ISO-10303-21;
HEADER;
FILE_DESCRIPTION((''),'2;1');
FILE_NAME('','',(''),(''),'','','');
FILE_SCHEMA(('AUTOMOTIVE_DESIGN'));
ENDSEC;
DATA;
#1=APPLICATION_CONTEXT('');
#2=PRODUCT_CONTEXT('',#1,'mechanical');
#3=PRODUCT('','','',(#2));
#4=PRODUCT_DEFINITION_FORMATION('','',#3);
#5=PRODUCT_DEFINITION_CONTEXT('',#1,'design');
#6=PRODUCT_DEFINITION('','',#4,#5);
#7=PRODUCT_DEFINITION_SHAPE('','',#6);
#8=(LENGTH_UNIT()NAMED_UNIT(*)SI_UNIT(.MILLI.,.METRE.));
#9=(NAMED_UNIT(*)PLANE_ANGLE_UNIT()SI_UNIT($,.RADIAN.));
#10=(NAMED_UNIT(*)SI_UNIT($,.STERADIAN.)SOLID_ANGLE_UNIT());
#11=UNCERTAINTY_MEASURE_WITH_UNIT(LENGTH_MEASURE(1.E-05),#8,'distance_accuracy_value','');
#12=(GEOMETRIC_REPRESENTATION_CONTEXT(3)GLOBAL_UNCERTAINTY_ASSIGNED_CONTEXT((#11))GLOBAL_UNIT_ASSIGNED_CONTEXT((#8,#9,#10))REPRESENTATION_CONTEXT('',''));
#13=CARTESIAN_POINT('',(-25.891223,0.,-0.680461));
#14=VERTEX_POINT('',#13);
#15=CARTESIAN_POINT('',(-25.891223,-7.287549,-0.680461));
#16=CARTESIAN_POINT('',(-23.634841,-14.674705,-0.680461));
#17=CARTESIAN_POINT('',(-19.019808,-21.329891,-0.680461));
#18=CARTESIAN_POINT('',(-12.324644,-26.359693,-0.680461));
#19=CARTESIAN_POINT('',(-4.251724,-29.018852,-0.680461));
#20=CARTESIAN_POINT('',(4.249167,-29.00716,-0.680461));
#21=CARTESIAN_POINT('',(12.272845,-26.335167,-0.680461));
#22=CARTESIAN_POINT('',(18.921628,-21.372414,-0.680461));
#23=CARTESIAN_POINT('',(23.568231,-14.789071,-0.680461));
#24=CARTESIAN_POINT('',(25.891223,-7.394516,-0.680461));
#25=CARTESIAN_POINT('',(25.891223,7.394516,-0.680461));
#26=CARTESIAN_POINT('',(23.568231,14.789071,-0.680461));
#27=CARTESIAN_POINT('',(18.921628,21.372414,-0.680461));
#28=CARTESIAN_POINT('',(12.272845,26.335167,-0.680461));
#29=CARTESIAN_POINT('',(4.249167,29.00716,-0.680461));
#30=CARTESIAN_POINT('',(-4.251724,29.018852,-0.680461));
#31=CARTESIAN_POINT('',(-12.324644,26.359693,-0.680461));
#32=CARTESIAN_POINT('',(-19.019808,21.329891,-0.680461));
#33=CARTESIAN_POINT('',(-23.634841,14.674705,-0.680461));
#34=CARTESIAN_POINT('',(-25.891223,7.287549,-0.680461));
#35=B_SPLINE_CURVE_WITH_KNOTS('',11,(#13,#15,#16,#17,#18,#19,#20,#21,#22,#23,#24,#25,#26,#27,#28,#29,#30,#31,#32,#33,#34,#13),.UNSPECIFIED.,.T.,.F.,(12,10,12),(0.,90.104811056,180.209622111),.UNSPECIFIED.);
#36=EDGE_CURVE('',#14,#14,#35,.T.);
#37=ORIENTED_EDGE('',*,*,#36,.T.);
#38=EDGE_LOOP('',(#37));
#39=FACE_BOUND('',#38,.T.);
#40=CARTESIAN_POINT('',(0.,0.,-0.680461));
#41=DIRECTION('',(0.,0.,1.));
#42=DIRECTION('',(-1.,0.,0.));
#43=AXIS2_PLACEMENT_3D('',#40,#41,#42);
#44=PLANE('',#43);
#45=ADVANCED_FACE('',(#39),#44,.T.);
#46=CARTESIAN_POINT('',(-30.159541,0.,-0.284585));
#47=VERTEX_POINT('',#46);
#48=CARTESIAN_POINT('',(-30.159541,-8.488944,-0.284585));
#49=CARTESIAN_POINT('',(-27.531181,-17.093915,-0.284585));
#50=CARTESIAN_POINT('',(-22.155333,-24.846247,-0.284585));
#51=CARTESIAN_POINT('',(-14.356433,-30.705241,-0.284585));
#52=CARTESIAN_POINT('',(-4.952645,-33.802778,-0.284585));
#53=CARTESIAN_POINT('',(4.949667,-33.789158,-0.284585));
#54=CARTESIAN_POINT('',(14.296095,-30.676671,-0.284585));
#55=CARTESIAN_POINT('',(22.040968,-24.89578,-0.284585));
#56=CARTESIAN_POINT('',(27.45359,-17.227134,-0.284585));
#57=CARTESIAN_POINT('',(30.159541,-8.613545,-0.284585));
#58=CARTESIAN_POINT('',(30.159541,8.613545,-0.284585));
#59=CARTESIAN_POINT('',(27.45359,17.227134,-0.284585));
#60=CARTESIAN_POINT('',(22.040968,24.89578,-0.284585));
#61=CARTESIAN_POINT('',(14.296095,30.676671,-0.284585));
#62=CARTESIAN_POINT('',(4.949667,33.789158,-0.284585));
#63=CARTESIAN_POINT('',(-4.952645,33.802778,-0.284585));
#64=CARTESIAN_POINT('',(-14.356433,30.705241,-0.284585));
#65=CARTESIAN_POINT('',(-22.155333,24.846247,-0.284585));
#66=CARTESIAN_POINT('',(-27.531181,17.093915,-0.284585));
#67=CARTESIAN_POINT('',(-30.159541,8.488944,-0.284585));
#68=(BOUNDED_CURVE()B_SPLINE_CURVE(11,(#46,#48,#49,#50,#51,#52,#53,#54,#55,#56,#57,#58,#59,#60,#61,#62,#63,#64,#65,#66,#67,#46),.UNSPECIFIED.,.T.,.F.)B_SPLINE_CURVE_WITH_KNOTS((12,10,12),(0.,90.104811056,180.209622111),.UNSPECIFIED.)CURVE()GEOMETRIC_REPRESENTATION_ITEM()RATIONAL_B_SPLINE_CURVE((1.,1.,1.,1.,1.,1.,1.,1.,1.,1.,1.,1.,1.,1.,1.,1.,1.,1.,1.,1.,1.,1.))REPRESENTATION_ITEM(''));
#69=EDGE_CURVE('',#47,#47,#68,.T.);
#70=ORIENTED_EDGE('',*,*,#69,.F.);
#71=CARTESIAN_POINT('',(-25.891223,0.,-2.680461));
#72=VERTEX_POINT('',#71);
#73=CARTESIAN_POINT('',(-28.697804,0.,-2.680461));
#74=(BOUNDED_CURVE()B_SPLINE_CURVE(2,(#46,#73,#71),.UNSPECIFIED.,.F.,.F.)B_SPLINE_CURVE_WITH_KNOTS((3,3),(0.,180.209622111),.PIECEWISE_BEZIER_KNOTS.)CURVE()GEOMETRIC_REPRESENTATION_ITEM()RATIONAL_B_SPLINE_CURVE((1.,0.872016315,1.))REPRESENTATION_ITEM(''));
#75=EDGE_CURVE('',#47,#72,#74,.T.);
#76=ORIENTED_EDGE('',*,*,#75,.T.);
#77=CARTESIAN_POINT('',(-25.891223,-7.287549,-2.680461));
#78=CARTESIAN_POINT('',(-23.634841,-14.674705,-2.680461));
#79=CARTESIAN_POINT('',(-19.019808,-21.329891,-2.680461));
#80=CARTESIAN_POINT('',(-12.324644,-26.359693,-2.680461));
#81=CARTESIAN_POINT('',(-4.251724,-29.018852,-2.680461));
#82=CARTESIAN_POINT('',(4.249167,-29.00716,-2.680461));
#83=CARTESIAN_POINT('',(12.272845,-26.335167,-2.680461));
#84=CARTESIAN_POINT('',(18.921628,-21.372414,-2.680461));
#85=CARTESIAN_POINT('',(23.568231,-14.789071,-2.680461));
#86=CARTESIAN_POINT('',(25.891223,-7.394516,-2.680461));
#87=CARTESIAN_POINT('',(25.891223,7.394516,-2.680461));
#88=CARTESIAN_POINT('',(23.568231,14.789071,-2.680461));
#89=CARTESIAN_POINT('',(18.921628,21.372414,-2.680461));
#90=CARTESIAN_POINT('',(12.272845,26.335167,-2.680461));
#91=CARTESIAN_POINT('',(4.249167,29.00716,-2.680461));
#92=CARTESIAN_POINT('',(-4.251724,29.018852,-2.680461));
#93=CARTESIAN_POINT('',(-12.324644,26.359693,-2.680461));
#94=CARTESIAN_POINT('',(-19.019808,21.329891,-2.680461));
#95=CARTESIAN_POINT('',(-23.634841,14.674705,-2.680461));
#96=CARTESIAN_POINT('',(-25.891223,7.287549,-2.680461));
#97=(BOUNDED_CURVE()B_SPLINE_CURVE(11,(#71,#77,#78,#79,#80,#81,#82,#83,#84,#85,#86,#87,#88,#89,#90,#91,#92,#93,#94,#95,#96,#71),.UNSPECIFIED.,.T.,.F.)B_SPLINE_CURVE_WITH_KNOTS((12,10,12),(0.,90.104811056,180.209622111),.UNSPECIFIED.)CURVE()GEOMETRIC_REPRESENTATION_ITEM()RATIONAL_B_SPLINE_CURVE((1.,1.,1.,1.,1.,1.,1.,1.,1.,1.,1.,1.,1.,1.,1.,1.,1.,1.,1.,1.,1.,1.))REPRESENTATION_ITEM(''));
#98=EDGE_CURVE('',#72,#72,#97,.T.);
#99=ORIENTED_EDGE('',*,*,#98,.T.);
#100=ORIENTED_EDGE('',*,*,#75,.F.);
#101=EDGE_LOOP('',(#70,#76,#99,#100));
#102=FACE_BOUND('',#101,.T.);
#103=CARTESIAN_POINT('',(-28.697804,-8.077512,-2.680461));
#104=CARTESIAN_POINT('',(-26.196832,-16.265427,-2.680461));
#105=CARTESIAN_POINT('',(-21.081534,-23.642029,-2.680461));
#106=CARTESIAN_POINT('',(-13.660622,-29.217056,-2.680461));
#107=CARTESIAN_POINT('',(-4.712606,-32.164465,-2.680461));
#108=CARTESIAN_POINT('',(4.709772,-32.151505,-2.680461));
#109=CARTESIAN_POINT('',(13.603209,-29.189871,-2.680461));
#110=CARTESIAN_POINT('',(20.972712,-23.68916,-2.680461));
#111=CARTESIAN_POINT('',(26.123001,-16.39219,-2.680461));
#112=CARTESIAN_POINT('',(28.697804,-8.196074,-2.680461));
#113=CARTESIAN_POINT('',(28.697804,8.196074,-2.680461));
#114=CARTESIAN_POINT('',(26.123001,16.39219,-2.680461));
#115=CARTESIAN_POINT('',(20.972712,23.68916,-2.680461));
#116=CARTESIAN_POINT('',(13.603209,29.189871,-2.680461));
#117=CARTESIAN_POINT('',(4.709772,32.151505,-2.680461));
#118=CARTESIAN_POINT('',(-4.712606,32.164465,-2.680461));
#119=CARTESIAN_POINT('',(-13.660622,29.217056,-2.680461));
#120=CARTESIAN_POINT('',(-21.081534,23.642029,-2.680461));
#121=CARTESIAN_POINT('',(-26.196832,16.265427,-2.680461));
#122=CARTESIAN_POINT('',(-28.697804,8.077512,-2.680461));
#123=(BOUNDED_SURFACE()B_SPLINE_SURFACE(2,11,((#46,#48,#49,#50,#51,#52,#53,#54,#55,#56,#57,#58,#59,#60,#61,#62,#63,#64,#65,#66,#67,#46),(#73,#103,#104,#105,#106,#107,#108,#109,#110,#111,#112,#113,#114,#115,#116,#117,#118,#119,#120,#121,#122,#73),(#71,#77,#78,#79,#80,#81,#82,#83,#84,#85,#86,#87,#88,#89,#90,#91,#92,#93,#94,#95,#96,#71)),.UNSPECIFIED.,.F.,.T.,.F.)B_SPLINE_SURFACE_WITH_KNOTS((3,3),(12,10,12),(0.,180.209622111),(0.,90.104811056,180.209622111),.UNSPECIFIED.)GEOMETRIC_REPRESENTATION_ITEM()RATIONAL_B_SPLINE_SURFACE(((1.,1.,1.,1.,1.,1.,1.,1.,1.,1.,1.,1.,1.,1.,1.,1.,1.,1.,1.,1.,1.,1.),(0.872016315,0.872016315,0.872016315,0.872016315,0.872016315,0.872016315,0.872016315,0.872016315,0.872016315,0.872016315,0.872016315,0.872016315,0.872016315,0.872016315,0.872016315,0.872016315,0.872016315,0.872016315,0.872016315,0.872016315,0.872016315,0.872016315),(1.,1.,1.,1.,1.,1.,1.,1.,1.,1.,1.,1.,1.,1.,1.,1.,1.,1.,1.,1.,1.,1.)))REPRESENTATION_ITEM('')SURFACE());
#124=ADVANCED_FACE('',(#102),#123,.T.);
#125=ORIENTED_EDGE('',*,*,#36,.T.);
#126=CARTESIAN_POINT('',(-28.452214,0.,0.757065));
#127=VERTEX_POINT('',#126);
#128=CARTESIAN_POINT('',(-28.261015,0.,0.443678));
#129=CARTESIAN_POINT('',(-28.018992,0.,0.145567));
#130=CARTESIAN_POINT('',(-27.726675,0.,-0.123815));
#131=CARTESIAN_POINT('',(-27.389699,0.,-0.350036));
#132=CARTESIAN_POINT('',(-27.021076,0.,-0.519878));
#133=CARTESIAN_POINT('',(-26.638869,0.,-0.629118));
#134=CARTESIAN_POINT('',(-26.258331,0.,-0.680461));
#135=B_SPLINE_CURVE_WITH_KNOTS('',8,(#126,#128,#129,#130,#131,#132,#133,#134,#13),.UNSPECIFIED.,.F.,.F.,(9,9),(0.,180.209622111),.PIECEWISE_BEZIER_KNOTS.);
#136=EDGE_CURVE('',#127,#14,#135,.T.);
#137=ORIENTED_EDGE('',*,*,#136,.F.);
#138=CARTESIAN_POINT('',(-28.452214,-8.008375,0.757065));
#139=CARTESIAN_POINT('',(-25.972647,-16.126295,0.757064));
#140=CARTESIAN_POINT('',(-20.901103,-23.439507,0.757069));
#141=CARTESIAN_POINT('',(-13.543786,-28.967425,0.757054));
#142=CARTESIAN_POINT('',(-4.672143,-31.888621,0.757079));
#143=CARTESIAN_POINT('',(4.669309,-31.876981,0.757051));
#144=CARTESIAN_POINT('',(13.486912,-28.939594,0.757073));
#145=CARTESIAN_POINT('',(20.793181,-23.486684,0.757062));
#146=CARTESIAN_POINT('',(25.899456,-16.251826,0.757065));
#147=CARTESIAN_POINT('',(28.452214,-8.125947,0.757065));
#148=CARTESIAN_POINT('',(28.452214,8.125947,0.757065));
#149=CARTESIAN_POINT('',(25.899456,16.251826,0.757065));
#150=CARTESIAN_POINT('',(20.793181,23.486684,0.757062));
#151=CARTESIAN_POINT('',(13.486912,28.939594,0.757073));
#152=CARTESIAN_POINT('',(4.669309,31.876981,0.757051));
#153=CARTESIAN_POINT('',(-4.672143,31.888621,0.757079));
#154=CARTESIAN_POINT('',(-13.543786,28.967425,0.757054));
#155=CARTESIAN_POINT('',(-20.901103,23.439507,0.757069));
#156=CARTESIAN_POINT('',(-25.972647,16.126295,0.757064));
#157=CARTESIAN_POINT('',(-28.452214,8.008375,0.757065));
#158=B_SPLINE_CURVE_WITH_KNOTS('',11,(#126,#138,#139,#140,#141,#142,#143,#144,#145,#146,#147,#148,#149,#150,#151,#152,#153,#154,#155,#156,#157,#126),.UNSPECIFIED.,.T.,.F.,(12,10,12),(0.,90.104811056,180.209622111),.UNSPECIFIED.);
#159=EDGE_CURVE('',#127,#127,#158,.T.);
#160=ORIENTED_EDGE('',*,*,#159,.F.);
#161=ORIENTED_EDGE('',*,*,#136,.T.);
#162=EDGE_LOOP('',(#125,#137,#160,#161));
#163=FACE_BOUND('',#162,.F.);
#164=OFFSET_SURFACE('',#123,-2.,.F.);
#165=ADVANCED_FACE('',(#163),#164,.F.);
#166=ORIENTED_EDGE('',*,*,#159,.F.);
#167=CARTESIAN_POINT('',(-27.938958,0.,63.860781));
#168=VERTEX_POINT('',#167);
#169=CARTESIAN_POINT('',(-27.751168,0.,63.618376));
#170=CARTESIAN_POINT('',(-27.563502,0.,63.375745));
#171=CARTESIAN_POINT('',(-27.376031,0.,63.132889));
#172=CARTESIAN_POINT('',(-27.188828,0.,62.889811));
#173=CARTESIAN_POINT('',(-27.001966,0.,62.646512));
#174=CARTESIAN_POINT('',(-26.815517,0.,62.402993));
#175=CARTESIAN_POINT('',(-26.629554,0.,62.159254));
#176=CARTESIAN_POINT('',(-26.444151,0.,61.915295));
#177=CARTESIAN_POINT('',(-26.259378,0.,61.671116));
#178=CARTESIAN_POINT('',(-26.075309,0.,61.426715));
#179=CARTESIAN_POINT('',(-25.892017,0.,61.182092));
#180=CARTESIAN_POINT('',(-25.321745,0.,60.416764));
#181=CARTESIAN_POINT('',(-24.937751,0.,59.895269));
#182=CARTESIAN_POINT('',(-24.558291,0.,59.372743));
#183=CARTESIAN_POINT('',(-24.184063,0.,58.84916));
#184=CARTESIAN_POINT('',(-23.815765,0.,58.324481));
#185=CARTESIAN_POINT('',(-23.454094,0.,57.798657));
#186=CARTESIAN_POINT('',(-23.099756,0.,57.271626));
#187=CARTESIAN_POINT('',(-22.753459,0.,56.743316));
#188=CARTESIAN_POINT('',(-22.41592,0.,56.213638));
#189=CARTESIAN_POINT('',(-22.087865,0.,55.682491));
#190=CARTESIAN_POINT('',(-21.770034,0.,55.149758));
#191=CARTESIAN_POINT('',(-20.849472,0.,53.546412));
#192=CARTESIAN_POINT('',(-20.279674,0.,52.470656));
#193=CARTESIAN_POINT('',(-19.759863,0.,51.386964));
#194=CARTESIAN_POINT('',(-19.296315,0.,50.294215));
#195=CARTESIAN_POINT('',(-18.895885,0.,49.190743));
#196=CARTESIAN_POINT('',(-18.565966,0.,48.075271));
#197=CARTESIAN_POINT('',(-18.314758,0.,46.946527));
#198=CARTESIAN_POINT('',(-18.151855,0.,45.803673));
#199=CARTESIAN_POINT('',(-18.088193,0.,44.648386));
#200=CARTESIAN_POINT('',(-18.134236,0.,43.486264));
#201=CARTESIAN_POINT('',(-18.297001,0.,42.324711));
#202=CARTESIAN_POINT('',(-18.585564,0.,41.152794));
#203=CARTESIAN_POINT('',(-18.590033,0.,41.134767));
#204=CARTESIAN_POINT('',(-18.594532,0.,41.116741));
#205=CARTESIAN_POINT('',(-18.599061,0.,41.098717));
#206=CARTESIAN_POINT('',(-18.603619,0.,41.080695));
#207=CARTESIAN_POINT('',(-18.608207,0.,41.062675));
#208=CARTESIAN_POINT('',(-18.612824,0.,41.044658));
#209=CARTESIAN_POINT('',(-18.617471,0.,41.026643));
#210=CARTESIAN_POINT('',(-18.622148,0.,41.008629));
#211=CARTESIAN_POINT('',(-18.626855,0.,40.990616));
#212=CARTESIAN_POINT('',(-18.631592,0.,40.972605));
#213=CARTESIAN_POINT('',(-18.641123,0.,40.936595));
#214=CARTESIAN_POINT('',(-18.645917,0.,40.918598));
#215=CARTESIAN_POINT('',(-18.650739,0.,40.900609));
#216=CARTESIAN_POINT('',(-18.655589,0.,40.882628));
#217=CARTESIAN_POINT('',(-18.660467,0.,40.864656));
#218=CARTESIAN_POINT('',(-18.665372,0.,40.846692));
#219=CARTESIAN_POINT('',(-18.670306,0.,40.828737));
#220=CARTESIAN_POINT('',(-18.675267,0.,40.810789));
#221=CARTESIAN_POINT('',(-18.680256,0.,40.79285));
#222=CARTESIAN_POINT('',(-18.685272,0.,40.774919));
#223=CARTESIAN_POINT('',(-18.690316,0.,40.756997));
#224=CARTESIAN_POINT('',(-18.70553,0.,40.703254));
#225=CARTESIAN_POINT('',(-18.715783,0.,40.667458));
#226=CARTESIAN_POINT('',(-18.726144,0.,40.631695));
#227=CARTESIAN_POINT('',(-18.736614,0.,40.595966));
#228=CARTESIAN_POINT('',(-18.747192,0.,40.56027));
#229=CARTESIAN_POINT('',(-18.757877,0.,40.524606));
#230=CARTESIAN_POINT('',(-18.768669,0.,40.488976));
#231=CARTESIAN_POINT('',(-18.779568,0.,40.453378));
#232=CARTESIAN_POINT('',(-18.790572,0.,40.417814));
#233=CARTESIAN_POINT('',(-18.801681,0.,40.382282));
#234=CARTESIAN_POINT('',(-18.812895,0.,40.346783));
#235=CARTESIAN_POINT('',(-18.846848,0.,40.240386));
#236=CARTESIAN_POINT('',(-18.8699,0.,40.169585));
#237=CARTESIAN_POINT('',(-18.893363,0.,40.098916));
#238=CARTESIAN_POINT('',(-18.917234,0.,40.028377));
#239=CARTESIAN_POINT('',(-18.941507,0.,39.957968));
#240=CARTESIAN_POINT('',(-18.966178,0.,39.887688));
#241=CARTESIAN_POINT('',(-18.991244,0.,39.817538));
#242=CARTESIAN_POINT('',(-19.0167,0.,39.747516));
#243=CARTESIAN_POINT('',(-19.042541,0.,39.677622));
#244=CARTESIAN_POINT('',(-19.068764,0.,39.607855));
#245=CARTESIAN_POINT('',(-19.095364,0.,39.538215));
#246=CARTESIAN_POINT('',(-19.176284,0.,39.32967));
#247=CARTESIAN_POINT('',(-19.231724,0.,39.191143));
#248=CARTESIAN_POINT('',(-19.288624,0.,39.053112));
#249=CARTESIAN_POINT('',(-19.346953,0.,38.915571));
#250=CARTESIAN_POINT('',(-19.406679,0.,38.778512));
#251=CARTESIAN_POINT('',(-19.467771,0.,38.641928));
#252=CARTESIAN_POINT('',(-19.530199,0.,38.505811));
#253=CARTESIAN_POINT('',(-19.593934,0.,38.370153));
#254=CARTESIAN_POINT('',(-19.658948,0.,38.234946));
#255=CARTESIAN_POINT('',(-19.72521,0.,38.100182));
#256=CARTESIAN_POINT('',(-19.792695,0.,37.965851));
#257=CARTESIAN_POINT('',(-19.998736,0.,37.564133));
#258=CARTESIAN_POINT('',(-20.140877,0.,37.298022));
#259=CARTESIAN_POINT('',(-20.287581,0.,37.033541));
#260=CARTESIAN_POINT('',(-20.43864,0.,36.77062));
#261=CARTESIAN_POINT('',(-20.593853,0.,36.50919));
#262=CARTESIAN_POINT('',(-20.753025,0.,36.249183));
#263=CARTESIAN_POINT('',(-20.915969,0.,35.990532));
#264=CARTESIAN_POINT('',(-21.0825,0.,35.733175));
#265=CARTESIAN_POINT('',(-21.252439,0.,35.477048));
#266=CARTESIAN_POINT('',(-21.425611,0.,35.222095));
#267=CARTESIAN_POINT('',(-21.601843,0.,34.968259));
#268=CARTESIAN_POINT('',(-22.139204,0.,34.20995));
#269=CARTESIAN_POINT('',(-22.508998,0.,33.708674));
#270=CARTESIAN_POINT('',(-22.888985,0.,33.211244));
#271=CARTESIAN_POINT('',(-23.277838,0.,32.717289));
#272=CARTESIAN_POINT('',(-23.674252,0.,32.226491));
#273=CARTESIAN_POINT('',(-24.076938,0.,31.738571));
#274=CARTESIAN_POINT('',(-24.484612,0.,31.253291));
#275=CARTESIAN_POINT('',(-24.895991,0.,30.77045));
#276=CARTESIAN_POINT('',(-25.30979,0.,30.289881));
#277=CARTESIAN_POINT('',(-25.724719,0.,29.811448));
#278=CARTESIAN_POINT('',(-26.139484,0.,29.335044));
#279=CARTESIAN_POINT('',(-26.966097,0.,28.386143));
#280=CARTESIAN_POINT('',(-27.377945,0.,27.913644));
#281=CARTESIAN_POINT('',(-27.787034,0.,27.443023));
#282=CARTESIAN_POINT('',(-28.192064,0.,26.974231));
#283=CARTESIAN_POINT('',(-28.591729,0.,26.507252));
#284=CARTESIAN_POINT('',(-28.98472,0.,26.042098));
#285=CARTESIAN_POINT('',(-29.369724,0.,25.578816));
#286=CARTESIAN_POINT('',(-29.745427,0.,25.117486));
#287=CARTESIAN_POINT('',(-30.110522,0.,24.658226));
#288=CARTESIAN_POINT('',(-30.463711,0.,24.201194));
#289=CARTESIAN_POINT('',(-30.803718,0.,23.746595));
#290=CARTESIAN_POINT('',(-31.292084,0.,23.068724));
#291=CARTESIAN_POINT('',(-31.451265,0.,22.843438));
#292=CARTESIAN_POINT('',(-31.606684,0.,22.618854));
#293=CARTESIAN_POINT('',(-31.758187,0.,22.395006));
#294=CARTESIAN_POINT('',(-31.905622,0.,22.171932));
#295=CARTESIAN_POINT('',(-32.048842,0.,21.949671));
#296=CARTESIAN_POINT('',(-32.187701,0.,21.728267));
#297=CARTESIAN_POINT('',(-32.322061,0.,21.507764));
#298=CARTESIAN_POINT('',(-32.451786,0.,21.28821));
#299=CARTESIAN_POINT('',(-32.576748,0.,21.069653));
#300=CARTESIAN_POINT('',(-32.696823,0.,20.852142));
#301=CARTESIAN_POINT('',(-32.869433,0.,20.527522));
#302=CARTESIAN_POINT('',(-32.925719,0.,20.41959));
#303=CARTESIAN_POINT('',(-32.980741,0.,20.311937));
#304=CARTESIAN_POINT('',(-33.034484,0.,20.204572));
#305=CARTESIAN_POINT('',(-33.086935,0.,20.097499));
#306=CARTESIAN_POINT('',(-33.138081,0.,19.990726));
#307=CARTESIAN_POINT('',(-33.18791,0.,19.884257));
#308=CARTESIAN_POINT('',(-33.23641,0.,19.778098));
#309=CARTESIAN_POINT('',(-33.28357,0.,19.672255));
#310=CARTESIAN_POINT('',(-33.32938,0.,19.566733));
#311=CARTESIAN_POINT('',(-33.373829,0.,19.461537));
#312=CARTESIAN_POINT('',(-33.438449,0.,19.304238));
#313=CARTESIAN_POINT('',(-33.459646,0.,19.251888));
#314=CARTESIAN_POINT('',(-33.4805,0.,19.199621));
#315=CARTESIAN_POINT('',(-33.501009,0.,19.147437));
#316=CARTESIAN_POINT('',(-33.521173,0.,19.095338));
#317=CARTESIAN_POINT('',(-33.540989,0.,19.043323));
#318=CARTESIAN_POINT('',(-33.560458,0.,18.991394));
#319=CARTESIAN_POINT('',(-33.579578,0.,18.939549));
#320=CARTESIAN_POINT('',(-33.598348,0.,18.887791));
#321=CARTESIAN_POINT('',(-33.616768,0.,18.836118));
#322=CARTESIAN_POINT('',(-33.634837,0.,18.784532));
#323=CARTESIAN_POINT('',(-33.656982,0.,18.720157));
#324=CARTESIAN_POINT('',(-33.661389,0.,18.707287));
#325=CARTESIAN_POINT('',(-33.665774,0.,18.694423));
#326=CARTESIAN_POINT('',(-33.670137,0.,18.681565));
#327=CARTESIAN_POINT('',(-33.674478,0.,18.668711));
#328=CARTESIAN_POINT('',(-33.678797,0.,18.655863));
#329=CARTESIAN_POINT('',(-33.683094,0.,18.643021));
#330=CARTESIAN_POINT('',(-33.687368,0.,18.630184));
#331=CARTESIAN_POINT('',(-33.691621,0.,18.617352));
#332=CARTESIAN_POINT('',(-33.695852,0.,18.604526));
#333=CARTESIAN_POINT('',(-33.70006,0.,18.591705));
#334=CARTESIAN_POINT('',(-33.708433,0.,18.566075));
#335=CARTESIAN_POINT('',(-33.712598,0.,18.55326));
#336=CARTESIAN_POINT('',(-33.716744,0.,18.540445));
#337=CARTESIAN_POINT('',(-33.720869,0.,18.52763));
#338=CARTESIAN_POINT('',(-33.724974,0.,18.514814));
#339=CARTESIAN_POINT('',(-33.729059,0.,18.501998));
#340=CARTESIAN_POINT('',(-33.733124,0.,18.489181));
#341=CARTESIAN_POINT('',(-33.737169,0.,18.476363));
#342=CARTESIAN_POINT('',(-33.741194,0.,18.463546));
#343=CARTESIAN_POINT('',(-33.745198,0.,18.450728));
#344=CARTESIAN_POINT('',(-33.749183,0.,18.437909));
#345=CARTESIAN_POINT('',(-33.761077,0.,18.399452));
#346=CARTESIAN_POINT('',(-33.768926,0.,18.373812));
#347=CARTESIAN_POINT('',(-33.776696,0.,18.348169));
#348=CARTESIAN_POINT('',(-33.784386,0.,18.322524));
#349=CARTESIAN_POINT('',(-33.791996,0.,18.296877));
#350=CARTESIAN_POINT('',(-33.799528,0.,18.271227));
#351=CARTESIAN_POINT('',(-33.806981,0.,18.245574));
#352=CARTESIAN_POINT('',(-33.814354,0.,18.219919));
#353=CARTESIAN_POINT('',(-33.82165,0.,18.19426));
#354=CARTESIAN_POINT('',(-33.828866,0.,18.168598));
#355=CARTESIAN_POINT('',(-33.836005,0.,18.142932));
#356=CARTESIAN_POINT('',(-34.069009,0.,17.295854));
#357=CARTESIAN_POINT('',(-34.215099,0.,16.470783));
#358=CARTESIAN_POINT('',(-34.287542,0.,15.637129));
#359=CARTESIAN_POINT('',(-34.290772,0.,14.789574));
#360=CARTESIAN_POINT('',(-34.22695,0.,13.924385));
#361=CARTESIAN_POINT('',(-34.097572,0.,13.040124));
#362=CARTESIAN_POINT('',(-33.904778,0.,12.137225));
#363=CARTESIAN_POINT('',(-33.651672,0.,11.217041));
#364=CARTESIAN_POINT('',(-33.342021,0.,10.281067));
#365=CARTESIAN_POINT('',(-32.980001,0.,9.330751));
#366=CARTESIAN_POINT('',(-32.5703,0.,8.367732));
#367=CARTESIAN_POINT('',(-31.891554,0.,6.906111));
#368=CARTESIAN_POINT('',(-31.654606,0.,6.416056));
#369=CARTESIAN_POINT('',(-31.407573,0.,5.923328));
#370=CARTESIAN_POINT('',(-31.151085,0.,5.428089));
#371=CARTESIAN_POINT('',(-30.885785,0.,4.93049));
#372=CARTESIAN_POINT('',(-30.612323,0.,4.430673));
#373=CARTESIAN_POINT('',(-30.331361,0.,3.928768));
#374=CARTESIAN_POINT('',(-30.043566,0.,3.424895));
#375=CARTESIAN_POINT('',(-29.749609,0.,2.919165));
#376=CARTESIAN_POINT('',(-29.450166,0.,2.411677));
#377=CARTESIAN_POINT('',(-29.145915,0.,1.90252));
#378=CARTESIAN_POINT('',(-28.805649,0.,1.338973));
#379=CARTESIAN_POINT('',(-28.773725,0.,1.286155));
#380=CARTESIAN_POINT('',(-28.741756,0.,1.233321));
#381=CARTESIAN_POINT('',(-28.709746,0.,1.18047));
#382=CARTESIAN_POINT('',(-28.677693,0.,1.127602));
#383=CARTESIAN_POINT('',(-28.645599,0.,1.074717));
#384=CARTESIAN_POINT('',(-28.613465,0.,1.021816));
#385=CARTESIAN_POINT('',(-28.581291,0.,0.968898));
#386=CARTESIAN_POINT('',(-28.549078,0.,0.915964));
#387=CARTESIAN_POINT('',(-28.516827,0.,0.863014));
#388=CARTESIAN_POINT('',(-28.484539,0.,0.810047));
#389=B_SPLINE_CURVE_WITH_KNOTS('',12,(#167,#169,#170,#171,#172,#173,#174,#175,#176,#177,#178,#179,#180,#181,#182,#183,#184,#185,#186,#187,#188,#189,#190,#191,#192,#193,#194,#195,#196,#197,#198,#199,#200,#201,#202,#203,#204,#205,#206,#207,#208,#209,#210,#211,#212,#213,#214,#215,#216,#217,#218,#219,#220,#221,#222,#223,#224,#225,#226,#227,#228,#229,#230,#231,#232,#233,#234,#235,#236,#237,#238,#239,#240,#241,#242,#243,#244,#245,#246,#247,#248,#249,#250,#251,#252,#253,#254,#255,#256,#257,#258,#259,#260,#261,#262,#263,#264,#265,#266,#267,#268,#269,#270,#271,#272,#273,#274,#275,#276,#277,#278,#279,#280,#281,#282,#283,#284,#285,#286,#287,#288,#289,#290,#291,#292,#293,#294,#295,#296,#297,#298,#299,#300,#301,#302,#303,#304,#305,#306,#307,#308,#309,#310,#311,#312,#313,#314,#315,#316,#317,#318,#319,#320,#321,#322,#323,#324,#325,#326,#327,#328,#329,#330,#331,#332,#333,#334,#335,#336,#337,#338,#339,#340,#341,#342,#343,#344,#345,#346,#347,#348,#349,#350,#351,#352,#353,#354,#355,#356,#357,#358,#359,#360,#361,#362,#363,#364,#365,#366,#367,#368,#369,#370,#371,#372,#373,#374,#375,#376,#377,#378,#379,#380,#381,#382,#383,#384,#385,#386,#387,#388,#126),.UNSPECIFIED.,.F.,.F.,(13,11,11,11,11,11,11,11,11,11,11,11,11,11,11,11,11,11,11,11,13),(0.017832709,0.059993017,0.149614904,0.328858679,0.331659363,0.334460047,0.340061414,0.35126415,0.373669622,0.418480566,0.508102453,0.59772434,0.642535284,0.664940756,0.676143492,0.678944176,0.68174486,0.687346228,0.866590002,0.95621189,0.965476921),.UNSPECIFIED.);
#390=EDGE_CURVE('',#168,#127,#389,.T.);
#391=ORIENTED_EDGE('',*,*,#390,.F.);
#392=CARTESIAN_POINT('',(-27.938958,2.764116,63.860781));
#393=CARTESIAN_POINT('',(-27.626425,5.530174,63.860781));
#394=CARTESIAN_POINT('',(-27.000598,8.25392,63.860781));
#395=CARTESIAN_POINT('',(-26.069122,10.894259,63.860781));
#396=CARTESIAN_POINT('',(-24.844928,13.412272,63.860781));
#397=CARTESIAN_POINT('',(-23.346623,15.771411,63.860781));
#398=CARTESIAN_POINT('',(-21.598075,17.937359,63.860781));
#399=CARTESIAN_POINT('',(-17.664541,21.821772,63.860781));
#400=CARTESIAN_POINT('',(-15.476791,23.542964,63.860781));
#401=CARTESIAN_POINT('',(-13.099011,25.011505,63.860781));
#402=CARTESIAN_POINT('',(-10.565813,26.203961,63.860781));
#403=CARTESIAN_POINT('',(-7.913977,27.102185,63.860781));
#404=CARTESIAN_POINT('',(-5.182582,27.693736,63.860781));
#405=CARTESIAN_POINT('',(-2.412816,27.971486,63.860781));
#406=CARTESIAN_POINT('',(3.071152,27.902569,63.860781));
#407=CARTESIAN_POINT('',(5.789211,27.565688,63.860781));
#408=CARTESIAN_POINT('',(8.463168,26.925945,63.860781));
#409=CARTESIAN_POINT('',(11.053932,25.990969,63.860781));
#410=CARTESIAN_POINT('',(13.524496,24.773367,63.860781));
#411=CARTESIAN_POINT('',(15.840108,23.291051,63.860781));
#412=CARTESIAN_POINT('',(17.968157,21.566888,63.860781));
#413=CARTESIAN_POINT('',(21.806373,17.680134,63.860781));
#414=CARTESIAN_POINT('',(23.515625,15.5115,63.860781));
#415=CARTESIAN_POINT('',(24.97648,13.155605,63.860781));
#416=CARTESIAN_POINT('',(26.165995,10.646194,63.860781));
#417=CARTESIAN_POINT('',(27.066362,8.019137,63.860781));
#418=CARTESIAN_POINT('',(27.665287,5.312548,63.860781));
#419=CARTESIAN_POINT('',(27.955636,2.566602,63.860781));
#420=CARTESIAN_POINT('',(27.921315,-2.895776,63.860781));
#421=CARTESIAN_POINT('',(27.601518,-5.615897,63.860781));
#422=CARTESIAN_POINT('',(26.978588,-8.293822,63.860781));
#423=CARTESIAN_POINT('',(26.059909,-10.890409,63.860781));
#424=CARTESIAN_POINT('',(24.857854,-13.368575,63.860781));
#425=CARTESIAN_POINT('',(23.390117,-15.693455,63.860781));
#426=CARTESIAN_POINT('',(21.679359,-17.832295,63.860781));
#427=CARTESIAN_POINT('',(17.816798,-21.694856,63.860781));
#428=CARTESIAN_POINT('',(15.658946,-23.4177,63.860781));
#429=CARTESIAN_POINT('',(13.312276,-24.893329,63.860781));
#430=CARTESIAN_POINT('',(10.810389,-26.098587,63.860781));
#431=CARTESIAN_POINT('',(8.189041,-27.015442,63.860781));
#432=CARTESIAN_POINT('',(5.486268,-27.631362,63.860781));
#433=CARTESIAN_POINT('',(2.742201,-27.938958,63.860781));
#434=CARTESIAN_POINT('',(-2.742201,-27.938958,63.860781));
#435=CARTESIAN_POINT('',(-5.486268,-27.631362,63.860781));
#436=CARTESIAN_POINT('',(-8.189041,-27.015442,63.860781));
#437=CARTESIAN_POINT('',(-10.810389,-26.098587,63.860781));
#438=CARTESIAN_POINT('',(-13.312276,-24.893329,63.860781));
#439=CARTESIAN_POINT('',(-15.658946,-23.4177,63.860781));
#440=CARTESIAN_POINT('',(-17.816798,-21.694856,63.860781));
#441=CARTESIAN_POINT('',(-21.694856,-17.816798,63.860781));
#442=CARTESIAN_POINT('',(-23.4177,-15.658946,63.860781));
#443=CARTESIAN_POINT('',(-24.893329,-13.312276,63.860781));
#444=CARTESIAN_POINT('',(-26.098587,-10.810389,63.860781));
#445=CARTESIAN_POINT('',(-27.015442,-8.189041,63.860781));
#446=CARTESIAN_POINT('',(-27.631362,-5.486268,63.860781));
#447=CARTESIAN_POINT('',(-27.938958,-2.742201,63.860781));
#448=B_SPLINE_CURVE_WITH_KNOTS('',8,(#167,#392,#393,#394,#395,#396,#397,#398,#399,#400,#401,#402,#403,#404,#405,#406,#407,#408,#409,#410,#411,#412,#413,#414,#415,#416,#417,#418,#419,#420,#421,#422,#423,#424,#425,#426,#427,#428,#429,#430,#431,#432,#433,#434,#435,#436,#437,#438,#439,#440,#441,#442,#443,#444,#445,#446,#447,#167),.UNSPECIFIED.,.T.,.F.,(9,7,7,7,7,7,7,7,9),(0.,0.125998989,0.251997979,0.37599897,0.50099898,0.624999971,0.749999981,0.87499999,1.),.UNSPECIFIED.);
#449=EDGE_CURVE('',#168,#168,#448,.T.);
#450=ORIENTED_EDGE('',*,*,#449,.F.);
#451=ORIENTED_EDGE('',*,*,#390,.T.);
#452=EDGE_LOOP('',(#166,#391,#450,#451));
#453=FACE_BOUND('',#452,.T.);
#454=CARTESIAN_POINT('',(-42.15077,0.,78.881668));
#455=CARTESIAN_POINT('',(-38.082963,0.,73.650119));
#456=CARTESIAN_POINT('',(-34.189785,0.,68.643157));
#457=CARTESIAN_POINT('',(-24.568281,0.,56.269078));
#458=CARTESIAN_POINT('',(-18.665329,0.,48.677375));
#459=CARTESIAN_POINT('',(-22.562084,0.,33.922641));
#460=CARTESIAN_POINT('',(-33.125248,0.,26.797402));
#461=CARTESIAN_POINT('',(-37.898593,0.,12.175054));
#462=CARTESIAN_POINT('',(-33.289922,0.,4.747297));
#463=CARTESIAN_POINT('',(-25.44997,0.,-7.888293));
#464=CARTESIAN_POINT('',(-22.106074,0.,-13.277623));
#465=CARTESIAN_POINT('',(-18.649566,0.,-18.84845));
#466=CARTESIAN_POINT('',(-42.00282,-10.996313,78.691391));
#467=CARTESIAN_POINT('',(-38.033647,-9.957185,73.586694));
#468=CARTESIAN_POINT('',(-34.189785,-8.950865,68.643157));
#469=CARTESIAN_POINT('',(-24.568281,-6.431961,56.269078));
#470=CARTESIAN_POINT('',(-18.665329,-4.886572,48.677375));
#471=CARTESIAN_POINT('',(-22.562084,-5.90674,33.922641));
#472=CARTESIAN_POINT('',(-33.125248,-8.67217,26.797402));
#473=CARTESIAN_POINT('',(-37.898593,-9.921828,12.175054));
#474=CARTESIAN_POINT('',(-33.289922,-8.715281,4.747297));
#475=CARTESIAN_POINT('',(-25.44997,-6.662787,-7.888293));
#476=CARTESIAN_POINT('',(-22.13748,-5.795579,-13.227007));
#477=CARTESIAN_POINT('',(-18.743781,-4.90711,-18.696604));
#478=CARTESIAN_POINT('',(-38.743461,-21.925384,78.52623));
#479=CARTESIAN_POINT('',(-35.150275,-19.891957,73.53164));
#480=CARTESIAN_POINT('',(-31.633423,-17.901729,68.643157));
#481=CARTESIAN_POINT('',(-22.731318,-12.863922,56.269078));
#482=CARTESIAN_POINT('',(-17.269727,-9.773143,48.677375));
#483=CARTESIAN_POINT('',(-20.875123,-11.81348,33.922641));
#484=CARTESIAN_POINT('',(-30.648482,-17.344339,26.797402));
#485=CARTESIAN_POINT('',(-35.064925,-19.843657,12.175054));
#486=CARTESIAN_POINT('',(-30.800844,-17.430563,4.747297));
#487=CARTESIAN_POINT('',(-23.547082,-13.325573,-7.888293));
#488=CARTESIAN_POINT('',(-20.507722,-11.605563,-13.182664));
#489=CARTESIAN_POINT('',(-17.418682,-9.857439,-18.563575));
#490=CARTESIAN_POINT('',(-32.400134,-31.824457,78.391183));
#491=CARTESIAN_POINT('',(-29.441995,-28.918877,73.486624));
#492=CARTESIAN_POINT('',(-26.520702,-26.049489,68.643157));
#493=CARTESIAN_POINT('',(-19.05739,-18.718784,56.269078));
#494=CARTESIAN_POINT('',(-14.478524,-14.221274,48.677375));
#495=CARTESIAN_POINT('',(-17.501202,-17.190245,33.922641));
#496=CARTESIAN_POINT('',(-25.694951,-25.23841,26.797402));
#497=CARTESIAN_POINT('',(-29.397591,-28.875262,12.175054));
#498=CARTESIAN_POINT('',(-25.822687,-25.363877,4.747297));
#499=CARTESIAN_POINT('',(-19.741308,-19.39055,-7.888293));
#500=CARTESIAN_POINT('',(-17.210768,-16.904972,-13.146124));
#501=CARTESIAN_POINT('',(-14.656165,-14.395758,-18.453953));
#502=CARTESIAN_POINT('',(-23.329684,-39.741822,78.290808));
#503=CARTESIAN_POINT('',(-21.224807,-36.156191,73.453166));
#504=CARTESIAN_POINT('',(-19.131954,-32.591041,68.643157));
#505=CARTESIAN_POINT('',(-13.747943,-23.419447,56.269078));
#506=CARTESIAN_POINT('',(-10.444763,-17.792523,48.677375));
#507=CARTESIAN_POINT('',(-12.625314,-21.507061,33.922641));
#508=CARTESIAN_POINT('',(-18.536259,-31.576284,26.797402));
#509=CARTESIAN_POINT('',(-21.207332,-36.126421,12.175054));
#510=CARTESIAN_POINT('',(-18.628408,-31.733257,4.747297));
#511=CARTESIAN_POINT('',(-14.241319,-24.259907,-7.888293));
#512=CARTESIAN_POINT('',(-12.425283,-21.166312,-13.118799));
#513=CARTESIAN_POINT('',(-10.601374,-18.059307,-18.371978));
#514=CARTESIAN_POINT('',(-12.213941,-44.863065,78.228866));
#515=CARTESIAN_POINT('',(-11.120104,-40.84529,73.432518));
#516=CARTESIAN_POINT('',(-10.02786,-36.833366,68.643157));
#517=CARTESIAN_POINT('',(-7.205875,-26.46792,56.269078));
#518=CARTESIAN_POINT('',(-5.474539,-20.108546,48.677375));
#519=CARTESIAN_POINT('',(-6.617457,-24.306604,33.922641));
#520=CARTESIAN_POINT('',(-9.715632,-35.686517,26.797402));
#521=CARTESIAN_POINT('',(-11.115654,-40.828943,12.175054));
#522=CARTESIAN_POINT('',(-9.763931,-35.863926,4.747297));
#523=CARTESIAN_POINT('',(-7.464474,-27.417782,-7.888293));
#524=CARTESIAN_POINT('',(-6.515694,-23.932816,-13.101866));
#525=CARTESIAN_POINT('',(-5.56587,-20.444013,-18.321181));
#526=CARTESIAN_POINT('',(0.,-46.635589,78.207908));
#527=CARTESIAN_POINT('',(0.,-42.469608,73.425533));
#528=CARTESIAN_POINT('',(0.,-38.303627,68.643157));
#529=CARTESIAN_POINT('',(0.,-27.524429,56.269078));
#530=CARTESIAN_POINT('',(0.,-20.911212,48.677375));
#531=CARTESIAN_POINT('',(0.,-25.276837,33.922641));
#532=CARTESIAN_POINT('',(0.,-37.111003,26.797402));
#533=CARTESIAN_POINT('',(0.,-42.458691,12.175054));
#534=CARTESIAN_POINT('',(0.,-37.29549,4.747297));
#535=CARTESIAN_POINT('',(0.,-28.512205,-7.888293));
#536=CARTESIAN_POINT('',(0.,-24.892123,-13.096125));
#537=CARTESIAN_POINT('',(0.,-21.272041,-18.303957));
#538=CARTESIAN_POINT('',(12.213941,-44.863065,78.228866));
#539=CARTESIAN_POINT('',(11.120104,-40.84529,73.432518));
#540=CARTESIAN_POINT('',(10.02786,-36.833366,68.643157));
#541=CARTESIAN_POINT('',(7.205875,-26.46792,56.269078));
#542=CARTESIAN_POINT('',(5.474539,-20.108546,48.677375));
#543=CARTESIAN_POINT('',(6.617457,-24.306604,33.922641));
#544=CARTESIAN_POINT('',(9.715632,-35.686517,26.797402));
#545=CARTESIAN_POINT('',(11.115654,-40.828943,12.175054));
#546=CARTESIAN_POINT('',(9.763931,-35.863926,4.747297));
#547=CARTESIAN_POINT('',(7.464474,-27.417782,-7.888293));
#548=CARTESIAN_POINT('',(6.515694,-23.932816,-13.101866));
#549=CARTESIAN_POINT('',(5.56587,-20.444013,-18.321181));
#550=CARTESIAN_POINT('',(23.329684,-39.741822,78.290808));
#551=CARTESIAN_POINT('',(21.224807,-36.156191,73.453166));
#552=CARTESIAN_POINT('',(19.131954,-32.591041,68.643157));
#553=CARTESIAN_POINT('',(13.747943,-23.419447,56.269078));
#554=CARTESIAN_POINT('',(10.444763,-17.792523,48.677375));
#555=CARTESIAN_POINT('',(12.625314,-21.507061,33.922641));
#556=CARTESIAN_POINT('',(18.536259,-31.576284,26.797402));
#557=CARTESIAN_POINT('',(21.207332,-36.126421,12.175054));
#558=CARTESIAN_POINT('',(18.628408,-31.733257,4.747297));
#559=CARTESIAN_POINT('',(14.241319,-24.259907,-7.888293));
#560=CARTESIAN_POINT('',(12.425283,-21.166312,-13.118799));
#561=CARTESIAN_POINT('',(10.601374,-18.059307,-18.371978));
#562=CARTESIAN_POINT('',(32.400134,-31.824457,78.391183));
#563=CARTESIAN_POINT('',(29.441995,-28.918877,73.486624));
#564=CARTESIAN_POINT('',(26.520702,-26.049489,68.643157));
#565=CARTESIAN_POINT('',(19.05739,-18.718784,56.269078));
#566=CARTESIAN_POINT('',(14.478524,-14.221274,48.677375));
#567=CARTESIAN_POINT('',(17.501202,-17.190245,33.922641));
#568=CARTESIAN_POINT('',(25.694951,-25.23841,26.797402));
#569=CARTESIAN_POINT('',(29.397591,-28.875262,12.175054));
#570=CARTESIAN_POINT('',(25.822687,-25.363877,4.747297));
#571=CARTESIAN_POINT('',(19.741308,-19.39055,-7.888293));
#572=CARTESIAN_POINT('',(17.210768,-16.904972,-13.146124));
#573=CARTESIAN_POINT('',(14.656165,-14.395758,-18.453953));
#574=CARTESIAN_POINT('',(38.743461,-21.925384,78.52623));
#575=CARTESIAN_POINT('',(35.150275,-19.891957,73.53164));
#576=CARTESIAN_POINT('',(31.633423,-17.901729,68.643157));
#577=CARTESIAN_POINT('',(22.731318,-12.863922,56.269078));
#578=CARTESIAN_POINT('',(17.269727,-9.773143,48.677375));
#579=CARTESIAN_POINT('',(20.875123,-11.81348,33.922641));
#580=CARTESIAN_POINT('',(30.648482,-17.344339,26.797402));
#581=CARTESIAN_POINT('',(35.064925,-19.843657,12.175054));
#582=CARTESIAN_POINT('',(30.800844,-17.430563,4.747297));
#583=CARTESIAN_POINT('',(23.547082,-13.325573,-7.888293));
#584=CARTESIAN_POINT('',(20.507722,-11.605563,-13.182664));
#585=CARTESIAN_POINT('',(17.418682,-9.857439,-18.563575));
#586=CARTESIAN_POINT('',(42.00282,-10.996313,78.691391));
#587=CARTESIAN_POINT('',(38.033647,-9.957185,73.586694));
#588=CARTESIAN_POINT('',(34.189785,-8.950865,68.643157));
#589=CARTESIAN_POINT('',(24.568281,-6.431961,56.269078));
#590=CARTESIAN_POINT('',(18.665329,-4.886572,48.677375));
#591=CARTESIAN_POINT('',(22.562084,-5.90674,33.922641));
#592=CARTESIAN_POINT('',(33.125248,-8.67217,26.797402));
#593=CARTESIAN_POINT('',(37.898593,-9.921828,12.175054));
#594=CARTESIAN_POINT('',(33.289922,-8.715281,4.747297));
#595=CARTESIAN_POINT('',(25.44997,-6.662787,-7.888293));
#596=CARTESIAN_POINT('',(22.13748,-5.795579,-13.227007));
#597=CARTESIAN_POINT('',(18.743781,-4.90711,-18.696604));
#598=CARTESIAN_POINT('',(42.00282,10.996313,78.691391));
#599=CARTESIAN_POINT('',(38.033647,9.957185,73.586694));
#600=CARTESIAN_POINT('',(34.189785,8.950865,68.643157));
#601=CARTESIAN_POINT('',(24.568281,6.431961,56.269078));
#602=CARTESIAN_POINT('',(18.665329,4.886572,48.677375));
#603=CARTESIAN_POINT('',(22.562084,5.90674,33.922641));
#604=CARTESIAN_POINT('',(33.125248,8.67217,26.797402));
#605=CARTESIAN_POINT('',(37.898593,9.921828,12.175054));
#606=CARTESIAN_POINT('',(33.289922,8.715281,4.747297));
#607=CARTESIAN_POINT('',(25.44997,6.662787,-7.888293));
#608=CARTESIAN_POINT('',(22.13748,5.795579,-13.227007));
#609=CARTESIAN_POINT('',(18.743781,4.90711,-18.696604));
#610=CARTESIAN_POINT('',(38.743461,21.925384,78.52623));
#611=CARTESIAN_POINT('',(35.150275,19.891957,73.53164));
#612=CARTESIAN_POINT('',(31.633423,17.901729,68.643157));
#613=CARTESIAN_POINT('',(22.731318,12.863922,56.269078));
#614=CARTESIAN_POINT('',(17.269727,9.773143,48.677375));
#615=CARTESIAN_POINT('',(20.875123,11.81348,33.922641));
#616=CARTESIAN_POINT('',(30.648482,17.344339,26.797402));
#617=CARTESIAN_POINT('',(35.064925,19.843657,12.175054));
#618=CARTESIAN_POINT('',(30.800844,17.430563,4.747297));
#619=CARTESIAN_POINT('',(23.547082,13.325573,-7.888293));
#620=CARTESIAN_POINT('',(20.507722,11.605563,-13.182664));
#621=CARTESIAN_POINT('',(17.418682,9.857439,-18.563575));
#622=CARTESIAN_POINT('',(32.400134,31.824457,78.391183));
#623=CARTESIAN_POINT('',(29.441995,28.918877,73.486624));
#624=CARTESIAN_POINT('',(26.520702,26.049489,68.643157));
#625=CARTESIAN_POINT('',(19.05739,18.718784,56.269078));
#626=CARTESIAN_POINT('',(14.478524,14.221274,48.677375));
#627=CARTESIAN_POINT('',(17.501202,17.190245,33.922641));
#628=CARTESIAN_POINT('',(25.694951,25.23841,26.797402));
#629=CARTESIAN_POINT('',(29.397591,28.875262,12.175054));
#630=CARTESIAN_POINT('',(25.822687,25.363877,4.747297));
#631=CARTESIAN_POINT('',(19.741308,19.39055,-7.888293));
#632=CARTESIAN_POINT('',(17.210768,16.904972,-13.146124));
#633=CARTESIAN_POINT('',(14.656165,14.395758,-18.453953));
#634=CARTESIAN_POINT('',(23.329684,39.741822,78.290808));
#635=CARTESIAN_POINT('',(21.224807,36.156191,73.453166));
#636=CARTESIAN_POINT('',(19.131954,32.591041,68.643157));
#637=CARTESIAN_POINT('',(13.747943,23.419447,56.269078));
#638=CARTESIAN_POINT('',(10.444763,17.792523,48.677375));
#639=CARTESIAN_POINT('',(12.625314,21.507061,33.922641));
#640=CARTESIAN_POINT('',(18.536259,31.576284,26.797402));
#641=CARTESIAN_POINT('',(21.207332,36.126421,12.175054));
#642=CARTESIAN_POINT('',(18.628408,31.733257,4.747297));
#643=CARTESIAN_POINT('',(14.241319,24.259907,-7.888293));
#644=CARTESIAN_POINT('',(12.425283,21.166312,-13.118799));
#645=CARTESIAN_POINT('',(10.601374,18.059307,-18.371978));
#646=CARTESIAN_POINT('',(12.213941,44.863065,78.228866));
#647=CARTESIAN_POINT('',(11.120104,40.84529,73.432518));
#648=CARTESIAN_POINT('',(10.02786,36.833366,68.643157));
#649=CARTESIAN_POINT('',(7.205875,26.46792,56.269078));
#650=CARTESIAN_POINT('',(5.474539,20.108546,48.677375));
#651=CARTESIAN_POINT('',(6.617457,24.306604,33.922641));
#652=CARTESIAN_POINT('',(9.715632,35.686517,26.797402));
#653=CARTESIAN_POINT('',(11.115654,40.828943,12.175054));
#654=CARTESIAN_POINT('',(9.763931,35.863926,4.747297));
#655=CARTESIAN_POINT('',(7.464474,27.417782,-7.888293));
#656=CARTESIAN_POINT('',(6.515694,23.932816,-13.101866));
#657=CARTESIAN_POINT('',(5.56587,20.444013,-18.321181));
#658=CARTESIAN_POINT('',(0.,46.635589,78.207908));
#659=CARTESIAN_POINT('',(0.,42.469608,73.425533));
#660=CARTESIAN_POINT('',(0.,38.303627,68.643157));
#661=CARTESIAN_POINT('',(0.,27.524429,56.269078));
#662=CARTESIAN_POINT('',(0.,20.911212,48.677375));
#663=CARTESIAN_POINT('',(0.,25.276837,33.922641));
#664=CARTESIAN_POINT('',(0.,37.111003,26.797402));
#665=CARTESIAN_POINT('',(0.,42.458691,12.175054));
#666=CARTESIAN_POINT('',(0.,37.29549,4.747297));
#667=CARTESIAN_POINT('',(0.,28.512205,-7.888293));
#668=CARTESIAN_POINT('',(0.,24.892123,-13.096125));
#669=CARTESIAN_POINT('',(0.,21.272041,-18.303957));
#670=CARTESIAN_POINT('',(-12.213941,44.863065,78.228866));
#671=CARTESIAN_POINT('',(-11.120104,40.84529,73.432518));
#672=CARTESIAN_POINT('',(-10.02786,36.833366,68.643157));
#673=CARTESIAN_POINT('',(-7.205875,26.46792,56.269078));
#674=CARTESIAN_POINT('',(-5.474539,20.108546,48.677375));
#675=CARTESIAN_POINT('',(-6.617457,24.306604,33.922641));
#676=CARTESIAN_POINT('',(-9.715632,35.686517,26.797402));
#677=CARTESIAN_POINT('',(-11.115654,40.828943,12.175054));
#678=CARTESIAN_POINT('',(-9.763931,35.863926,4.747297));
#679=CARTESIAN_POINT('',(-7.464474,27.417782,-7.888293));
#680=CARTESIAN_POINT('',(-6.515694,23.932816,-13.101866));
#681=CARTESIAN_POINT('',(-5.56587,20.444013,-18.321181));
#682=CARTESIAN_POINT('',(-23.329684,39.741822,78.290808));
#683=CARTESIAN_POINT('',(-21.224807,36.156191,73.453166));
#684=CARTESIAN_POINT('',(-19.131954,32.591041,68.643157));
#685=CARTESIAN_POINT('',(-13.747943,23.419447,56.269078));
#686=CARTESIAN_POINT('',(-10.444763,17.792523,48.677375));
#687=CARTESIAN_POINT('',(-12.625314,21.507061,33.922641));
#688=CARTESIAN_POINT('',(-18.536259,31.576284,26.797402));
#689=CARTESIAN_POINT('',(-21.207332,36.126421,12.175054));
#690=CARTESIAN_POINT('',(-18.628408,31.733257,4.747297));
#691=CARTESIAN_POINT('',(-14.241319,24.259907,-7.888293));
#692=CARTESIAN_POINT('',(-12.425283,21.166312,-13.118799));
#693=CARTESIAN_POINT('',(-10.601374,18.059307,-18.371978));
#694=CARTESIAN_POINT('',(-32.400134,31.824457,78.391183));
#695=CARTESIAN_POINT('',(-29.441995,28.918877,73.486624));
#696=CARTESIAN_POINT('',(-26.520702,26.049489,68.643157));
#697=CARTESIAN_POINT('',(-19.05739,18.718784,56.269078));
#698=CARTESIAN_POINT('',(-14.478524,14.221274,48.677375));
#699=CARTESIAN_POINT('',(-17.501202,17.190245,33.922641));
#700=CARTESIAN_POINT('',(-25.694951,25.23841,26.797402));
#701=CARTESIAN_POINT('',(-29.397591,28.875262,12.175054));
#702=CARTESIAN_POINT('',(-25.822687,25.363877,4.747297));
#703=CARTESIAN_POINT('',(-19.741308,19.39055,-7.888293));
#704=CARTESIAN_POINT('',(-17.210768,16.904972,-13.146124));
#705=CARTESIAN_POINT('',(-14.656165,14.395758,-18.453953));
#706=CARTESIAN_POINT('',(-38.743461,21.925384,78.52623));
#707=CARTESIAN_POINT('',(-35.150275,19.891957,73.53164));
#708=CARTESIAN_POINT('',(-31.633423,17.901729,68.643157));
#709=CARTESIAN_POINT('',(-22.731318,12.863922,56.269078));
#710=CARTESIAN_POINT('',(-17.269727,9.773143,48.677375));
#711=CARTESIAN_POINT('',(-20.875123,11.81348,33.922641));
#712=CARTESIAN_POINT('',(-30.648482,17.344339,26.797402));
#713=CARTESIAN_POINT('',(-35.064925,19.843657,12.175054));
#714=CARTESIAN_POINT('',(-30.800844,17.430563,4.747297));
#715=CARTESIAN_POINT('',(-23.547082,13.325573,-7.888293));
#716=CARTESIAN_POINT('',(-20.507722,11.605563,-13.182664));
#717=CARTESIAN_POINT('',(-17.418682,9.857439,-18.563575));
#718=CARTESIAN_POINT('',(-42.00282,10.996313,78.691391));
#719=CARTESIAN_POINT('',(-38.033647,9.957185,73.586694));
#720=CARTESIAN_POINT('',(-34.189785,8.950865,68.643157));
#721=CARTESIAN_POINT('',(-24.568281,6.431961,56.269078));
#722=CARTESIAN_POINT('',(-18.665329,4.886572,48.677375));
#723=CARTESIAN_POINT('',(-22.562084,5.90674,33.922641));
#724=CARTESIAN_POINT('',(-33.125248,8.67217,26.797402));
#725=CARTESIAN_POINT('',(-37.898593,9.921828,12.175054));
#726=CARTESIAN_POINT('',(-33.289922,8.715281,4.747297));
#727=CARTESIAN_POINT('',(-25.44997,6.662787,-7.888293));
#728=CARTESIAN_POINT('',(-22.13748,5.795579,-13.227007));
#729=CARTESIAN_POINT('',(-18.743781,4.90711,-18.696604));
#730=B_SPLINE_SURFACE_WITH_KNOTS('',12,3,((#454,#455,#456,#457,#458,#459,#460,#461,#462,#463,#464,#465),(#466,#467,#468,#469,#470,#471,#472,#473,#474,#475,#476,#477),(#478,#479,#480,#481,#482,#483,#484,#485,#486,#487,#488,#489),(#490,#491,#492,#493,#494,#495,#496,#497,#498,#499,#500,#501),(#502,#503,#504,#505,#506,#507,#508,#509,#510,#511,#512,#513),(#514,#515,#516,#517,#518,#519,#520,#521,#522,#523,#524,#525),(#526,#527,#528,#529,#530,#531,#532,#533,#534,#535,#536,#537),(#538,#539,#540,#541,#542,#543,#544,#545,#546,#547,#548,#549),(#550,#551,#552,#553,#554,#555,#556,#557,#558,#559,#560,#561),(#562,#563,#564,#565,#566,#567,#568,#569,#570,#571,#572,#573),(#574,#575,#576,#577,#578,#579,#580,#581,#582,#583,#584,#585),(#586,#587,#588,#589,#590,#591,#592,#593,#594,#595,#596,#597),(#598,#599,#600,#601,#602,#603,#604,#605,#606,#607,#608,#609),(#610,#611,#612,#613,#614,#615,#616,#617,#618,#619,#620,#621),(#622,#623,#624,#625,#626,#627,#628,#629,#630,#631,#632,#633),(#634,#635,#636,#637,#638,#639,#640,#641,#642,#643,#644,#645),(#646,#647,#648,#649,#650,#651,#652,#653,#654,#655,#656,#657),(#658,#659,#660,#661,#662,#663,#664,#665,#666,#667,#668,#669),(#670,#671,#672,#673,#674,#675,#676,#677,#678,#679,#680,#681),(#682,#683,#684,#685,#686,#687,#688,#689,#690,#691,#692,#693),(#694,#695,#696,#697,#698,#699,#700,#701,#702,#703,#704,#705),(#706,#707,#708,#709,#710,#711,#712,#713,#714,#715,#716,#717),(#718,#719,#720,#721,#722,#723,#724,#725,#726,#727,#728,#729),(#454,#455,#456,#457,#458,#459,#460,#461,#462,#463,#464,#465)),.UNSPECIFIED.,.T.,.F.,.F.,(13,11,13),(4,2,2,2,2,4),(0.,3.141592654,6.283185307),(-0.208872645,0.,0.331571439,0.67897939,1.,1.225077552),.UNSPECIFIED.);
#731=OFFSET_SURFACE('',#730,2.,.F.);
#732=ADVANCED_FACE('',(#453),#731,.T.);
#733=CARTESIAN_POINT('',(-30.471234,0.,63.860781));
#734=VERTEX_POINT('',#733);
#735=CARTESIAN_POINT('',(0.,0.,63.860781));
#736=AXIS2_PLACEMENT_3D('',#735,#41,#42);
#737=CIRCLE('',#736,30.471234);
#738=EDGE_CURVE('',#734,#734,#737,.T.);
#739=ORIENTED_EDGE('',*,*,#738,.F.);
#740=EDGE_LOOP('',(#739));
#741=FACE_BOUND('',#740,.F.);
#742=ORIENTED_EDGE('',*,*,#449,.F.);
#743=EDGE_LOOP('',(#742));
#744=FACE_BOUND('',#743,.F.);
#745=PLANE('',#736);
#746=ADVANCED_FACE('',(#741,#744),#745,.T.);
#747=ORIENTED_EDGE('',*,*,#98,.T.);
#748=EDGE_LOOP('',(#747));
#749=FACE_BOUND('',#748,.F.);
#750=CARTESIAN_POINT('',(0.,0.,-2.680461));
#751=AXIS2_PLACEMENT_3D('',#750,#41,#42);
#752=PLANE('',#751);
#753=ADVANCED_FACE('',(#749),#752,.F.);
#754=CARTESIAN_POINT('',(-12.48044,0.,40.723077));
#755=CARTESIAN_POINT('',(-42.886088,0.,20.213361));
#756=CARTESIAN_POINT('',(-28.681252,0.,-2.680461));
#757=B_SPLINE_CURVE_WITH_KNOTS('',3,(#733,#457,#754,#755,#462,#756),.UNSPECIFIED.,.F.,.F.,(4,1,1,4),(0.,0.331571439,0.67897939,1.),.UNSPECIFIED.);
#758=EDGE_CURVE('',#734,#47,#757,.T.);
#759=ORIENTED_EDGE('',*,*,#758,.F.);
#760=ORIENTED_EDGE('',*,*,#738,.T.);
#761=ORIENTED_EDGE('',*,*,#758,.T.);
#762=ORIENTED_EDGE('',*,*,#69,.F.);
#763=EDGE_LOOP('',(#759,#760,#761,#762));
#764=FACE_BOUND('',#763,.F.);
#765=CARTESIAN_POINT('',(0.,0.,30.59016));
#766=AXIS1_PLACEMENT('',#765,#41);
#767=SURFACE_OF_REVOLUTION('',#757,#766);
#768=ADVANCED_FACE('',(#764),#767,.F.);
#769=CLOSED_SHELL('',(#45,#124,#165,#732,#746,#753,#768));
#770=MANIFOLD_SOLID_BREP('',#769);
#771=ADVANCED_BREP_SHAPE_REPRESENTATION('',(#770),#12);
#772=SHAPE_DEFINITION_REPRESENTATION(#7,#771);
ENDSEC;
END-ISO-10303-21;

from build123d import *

# Parameters (mm, degrees)
F2_R = 5
F3_T = -2


with BuildPart() as f1:
    # F0 (on Front) → F1 (revolve)
    with BuildSketch(Plane.XZ):
        with BuildLine():
            Line((0, 63.8607814908), (-30.471233651, 63.8607814908))
            add(Edge.make_bspline(
                [(-30.471233651, 63.8607814908), (-24.5682813496, 56.2690781491), (-12.4804400049, 40.7230766155), (-42.8860878606, 20.2133607106), (-33.289922472, 4.7472968268), (-28.6812521517, -2.6804606896)],
                knots=[0, 0, 0, 0, 0.3315714392, 0.6789793897, 1, 1, 1, 1], degree=3))
            Line((-28.6812521517, -2.6804606896), (0, -2.6804606896))
            Line((0, -2.6804606896), (0, 63.8607814908))
        make_face()
    revolve(axis=Axis((0, 0, 30.5901604006), (0, 0, 1)))

    # F2
    f2_edges = [f1.edges().sort_by_distance(p)[0] for p in [
        (28.681252, 0, -2.680461),
    ]]
    fillet(f2_edges, radius=F2_R)

    # F3
    f3_openings = [f1.faces().sort_by_distance(p)[0] for p in [
        (0, 0, 63.860781),
    ]]
    offset(amount=F3_T, openings=f3_openings)


solid = f1.part
